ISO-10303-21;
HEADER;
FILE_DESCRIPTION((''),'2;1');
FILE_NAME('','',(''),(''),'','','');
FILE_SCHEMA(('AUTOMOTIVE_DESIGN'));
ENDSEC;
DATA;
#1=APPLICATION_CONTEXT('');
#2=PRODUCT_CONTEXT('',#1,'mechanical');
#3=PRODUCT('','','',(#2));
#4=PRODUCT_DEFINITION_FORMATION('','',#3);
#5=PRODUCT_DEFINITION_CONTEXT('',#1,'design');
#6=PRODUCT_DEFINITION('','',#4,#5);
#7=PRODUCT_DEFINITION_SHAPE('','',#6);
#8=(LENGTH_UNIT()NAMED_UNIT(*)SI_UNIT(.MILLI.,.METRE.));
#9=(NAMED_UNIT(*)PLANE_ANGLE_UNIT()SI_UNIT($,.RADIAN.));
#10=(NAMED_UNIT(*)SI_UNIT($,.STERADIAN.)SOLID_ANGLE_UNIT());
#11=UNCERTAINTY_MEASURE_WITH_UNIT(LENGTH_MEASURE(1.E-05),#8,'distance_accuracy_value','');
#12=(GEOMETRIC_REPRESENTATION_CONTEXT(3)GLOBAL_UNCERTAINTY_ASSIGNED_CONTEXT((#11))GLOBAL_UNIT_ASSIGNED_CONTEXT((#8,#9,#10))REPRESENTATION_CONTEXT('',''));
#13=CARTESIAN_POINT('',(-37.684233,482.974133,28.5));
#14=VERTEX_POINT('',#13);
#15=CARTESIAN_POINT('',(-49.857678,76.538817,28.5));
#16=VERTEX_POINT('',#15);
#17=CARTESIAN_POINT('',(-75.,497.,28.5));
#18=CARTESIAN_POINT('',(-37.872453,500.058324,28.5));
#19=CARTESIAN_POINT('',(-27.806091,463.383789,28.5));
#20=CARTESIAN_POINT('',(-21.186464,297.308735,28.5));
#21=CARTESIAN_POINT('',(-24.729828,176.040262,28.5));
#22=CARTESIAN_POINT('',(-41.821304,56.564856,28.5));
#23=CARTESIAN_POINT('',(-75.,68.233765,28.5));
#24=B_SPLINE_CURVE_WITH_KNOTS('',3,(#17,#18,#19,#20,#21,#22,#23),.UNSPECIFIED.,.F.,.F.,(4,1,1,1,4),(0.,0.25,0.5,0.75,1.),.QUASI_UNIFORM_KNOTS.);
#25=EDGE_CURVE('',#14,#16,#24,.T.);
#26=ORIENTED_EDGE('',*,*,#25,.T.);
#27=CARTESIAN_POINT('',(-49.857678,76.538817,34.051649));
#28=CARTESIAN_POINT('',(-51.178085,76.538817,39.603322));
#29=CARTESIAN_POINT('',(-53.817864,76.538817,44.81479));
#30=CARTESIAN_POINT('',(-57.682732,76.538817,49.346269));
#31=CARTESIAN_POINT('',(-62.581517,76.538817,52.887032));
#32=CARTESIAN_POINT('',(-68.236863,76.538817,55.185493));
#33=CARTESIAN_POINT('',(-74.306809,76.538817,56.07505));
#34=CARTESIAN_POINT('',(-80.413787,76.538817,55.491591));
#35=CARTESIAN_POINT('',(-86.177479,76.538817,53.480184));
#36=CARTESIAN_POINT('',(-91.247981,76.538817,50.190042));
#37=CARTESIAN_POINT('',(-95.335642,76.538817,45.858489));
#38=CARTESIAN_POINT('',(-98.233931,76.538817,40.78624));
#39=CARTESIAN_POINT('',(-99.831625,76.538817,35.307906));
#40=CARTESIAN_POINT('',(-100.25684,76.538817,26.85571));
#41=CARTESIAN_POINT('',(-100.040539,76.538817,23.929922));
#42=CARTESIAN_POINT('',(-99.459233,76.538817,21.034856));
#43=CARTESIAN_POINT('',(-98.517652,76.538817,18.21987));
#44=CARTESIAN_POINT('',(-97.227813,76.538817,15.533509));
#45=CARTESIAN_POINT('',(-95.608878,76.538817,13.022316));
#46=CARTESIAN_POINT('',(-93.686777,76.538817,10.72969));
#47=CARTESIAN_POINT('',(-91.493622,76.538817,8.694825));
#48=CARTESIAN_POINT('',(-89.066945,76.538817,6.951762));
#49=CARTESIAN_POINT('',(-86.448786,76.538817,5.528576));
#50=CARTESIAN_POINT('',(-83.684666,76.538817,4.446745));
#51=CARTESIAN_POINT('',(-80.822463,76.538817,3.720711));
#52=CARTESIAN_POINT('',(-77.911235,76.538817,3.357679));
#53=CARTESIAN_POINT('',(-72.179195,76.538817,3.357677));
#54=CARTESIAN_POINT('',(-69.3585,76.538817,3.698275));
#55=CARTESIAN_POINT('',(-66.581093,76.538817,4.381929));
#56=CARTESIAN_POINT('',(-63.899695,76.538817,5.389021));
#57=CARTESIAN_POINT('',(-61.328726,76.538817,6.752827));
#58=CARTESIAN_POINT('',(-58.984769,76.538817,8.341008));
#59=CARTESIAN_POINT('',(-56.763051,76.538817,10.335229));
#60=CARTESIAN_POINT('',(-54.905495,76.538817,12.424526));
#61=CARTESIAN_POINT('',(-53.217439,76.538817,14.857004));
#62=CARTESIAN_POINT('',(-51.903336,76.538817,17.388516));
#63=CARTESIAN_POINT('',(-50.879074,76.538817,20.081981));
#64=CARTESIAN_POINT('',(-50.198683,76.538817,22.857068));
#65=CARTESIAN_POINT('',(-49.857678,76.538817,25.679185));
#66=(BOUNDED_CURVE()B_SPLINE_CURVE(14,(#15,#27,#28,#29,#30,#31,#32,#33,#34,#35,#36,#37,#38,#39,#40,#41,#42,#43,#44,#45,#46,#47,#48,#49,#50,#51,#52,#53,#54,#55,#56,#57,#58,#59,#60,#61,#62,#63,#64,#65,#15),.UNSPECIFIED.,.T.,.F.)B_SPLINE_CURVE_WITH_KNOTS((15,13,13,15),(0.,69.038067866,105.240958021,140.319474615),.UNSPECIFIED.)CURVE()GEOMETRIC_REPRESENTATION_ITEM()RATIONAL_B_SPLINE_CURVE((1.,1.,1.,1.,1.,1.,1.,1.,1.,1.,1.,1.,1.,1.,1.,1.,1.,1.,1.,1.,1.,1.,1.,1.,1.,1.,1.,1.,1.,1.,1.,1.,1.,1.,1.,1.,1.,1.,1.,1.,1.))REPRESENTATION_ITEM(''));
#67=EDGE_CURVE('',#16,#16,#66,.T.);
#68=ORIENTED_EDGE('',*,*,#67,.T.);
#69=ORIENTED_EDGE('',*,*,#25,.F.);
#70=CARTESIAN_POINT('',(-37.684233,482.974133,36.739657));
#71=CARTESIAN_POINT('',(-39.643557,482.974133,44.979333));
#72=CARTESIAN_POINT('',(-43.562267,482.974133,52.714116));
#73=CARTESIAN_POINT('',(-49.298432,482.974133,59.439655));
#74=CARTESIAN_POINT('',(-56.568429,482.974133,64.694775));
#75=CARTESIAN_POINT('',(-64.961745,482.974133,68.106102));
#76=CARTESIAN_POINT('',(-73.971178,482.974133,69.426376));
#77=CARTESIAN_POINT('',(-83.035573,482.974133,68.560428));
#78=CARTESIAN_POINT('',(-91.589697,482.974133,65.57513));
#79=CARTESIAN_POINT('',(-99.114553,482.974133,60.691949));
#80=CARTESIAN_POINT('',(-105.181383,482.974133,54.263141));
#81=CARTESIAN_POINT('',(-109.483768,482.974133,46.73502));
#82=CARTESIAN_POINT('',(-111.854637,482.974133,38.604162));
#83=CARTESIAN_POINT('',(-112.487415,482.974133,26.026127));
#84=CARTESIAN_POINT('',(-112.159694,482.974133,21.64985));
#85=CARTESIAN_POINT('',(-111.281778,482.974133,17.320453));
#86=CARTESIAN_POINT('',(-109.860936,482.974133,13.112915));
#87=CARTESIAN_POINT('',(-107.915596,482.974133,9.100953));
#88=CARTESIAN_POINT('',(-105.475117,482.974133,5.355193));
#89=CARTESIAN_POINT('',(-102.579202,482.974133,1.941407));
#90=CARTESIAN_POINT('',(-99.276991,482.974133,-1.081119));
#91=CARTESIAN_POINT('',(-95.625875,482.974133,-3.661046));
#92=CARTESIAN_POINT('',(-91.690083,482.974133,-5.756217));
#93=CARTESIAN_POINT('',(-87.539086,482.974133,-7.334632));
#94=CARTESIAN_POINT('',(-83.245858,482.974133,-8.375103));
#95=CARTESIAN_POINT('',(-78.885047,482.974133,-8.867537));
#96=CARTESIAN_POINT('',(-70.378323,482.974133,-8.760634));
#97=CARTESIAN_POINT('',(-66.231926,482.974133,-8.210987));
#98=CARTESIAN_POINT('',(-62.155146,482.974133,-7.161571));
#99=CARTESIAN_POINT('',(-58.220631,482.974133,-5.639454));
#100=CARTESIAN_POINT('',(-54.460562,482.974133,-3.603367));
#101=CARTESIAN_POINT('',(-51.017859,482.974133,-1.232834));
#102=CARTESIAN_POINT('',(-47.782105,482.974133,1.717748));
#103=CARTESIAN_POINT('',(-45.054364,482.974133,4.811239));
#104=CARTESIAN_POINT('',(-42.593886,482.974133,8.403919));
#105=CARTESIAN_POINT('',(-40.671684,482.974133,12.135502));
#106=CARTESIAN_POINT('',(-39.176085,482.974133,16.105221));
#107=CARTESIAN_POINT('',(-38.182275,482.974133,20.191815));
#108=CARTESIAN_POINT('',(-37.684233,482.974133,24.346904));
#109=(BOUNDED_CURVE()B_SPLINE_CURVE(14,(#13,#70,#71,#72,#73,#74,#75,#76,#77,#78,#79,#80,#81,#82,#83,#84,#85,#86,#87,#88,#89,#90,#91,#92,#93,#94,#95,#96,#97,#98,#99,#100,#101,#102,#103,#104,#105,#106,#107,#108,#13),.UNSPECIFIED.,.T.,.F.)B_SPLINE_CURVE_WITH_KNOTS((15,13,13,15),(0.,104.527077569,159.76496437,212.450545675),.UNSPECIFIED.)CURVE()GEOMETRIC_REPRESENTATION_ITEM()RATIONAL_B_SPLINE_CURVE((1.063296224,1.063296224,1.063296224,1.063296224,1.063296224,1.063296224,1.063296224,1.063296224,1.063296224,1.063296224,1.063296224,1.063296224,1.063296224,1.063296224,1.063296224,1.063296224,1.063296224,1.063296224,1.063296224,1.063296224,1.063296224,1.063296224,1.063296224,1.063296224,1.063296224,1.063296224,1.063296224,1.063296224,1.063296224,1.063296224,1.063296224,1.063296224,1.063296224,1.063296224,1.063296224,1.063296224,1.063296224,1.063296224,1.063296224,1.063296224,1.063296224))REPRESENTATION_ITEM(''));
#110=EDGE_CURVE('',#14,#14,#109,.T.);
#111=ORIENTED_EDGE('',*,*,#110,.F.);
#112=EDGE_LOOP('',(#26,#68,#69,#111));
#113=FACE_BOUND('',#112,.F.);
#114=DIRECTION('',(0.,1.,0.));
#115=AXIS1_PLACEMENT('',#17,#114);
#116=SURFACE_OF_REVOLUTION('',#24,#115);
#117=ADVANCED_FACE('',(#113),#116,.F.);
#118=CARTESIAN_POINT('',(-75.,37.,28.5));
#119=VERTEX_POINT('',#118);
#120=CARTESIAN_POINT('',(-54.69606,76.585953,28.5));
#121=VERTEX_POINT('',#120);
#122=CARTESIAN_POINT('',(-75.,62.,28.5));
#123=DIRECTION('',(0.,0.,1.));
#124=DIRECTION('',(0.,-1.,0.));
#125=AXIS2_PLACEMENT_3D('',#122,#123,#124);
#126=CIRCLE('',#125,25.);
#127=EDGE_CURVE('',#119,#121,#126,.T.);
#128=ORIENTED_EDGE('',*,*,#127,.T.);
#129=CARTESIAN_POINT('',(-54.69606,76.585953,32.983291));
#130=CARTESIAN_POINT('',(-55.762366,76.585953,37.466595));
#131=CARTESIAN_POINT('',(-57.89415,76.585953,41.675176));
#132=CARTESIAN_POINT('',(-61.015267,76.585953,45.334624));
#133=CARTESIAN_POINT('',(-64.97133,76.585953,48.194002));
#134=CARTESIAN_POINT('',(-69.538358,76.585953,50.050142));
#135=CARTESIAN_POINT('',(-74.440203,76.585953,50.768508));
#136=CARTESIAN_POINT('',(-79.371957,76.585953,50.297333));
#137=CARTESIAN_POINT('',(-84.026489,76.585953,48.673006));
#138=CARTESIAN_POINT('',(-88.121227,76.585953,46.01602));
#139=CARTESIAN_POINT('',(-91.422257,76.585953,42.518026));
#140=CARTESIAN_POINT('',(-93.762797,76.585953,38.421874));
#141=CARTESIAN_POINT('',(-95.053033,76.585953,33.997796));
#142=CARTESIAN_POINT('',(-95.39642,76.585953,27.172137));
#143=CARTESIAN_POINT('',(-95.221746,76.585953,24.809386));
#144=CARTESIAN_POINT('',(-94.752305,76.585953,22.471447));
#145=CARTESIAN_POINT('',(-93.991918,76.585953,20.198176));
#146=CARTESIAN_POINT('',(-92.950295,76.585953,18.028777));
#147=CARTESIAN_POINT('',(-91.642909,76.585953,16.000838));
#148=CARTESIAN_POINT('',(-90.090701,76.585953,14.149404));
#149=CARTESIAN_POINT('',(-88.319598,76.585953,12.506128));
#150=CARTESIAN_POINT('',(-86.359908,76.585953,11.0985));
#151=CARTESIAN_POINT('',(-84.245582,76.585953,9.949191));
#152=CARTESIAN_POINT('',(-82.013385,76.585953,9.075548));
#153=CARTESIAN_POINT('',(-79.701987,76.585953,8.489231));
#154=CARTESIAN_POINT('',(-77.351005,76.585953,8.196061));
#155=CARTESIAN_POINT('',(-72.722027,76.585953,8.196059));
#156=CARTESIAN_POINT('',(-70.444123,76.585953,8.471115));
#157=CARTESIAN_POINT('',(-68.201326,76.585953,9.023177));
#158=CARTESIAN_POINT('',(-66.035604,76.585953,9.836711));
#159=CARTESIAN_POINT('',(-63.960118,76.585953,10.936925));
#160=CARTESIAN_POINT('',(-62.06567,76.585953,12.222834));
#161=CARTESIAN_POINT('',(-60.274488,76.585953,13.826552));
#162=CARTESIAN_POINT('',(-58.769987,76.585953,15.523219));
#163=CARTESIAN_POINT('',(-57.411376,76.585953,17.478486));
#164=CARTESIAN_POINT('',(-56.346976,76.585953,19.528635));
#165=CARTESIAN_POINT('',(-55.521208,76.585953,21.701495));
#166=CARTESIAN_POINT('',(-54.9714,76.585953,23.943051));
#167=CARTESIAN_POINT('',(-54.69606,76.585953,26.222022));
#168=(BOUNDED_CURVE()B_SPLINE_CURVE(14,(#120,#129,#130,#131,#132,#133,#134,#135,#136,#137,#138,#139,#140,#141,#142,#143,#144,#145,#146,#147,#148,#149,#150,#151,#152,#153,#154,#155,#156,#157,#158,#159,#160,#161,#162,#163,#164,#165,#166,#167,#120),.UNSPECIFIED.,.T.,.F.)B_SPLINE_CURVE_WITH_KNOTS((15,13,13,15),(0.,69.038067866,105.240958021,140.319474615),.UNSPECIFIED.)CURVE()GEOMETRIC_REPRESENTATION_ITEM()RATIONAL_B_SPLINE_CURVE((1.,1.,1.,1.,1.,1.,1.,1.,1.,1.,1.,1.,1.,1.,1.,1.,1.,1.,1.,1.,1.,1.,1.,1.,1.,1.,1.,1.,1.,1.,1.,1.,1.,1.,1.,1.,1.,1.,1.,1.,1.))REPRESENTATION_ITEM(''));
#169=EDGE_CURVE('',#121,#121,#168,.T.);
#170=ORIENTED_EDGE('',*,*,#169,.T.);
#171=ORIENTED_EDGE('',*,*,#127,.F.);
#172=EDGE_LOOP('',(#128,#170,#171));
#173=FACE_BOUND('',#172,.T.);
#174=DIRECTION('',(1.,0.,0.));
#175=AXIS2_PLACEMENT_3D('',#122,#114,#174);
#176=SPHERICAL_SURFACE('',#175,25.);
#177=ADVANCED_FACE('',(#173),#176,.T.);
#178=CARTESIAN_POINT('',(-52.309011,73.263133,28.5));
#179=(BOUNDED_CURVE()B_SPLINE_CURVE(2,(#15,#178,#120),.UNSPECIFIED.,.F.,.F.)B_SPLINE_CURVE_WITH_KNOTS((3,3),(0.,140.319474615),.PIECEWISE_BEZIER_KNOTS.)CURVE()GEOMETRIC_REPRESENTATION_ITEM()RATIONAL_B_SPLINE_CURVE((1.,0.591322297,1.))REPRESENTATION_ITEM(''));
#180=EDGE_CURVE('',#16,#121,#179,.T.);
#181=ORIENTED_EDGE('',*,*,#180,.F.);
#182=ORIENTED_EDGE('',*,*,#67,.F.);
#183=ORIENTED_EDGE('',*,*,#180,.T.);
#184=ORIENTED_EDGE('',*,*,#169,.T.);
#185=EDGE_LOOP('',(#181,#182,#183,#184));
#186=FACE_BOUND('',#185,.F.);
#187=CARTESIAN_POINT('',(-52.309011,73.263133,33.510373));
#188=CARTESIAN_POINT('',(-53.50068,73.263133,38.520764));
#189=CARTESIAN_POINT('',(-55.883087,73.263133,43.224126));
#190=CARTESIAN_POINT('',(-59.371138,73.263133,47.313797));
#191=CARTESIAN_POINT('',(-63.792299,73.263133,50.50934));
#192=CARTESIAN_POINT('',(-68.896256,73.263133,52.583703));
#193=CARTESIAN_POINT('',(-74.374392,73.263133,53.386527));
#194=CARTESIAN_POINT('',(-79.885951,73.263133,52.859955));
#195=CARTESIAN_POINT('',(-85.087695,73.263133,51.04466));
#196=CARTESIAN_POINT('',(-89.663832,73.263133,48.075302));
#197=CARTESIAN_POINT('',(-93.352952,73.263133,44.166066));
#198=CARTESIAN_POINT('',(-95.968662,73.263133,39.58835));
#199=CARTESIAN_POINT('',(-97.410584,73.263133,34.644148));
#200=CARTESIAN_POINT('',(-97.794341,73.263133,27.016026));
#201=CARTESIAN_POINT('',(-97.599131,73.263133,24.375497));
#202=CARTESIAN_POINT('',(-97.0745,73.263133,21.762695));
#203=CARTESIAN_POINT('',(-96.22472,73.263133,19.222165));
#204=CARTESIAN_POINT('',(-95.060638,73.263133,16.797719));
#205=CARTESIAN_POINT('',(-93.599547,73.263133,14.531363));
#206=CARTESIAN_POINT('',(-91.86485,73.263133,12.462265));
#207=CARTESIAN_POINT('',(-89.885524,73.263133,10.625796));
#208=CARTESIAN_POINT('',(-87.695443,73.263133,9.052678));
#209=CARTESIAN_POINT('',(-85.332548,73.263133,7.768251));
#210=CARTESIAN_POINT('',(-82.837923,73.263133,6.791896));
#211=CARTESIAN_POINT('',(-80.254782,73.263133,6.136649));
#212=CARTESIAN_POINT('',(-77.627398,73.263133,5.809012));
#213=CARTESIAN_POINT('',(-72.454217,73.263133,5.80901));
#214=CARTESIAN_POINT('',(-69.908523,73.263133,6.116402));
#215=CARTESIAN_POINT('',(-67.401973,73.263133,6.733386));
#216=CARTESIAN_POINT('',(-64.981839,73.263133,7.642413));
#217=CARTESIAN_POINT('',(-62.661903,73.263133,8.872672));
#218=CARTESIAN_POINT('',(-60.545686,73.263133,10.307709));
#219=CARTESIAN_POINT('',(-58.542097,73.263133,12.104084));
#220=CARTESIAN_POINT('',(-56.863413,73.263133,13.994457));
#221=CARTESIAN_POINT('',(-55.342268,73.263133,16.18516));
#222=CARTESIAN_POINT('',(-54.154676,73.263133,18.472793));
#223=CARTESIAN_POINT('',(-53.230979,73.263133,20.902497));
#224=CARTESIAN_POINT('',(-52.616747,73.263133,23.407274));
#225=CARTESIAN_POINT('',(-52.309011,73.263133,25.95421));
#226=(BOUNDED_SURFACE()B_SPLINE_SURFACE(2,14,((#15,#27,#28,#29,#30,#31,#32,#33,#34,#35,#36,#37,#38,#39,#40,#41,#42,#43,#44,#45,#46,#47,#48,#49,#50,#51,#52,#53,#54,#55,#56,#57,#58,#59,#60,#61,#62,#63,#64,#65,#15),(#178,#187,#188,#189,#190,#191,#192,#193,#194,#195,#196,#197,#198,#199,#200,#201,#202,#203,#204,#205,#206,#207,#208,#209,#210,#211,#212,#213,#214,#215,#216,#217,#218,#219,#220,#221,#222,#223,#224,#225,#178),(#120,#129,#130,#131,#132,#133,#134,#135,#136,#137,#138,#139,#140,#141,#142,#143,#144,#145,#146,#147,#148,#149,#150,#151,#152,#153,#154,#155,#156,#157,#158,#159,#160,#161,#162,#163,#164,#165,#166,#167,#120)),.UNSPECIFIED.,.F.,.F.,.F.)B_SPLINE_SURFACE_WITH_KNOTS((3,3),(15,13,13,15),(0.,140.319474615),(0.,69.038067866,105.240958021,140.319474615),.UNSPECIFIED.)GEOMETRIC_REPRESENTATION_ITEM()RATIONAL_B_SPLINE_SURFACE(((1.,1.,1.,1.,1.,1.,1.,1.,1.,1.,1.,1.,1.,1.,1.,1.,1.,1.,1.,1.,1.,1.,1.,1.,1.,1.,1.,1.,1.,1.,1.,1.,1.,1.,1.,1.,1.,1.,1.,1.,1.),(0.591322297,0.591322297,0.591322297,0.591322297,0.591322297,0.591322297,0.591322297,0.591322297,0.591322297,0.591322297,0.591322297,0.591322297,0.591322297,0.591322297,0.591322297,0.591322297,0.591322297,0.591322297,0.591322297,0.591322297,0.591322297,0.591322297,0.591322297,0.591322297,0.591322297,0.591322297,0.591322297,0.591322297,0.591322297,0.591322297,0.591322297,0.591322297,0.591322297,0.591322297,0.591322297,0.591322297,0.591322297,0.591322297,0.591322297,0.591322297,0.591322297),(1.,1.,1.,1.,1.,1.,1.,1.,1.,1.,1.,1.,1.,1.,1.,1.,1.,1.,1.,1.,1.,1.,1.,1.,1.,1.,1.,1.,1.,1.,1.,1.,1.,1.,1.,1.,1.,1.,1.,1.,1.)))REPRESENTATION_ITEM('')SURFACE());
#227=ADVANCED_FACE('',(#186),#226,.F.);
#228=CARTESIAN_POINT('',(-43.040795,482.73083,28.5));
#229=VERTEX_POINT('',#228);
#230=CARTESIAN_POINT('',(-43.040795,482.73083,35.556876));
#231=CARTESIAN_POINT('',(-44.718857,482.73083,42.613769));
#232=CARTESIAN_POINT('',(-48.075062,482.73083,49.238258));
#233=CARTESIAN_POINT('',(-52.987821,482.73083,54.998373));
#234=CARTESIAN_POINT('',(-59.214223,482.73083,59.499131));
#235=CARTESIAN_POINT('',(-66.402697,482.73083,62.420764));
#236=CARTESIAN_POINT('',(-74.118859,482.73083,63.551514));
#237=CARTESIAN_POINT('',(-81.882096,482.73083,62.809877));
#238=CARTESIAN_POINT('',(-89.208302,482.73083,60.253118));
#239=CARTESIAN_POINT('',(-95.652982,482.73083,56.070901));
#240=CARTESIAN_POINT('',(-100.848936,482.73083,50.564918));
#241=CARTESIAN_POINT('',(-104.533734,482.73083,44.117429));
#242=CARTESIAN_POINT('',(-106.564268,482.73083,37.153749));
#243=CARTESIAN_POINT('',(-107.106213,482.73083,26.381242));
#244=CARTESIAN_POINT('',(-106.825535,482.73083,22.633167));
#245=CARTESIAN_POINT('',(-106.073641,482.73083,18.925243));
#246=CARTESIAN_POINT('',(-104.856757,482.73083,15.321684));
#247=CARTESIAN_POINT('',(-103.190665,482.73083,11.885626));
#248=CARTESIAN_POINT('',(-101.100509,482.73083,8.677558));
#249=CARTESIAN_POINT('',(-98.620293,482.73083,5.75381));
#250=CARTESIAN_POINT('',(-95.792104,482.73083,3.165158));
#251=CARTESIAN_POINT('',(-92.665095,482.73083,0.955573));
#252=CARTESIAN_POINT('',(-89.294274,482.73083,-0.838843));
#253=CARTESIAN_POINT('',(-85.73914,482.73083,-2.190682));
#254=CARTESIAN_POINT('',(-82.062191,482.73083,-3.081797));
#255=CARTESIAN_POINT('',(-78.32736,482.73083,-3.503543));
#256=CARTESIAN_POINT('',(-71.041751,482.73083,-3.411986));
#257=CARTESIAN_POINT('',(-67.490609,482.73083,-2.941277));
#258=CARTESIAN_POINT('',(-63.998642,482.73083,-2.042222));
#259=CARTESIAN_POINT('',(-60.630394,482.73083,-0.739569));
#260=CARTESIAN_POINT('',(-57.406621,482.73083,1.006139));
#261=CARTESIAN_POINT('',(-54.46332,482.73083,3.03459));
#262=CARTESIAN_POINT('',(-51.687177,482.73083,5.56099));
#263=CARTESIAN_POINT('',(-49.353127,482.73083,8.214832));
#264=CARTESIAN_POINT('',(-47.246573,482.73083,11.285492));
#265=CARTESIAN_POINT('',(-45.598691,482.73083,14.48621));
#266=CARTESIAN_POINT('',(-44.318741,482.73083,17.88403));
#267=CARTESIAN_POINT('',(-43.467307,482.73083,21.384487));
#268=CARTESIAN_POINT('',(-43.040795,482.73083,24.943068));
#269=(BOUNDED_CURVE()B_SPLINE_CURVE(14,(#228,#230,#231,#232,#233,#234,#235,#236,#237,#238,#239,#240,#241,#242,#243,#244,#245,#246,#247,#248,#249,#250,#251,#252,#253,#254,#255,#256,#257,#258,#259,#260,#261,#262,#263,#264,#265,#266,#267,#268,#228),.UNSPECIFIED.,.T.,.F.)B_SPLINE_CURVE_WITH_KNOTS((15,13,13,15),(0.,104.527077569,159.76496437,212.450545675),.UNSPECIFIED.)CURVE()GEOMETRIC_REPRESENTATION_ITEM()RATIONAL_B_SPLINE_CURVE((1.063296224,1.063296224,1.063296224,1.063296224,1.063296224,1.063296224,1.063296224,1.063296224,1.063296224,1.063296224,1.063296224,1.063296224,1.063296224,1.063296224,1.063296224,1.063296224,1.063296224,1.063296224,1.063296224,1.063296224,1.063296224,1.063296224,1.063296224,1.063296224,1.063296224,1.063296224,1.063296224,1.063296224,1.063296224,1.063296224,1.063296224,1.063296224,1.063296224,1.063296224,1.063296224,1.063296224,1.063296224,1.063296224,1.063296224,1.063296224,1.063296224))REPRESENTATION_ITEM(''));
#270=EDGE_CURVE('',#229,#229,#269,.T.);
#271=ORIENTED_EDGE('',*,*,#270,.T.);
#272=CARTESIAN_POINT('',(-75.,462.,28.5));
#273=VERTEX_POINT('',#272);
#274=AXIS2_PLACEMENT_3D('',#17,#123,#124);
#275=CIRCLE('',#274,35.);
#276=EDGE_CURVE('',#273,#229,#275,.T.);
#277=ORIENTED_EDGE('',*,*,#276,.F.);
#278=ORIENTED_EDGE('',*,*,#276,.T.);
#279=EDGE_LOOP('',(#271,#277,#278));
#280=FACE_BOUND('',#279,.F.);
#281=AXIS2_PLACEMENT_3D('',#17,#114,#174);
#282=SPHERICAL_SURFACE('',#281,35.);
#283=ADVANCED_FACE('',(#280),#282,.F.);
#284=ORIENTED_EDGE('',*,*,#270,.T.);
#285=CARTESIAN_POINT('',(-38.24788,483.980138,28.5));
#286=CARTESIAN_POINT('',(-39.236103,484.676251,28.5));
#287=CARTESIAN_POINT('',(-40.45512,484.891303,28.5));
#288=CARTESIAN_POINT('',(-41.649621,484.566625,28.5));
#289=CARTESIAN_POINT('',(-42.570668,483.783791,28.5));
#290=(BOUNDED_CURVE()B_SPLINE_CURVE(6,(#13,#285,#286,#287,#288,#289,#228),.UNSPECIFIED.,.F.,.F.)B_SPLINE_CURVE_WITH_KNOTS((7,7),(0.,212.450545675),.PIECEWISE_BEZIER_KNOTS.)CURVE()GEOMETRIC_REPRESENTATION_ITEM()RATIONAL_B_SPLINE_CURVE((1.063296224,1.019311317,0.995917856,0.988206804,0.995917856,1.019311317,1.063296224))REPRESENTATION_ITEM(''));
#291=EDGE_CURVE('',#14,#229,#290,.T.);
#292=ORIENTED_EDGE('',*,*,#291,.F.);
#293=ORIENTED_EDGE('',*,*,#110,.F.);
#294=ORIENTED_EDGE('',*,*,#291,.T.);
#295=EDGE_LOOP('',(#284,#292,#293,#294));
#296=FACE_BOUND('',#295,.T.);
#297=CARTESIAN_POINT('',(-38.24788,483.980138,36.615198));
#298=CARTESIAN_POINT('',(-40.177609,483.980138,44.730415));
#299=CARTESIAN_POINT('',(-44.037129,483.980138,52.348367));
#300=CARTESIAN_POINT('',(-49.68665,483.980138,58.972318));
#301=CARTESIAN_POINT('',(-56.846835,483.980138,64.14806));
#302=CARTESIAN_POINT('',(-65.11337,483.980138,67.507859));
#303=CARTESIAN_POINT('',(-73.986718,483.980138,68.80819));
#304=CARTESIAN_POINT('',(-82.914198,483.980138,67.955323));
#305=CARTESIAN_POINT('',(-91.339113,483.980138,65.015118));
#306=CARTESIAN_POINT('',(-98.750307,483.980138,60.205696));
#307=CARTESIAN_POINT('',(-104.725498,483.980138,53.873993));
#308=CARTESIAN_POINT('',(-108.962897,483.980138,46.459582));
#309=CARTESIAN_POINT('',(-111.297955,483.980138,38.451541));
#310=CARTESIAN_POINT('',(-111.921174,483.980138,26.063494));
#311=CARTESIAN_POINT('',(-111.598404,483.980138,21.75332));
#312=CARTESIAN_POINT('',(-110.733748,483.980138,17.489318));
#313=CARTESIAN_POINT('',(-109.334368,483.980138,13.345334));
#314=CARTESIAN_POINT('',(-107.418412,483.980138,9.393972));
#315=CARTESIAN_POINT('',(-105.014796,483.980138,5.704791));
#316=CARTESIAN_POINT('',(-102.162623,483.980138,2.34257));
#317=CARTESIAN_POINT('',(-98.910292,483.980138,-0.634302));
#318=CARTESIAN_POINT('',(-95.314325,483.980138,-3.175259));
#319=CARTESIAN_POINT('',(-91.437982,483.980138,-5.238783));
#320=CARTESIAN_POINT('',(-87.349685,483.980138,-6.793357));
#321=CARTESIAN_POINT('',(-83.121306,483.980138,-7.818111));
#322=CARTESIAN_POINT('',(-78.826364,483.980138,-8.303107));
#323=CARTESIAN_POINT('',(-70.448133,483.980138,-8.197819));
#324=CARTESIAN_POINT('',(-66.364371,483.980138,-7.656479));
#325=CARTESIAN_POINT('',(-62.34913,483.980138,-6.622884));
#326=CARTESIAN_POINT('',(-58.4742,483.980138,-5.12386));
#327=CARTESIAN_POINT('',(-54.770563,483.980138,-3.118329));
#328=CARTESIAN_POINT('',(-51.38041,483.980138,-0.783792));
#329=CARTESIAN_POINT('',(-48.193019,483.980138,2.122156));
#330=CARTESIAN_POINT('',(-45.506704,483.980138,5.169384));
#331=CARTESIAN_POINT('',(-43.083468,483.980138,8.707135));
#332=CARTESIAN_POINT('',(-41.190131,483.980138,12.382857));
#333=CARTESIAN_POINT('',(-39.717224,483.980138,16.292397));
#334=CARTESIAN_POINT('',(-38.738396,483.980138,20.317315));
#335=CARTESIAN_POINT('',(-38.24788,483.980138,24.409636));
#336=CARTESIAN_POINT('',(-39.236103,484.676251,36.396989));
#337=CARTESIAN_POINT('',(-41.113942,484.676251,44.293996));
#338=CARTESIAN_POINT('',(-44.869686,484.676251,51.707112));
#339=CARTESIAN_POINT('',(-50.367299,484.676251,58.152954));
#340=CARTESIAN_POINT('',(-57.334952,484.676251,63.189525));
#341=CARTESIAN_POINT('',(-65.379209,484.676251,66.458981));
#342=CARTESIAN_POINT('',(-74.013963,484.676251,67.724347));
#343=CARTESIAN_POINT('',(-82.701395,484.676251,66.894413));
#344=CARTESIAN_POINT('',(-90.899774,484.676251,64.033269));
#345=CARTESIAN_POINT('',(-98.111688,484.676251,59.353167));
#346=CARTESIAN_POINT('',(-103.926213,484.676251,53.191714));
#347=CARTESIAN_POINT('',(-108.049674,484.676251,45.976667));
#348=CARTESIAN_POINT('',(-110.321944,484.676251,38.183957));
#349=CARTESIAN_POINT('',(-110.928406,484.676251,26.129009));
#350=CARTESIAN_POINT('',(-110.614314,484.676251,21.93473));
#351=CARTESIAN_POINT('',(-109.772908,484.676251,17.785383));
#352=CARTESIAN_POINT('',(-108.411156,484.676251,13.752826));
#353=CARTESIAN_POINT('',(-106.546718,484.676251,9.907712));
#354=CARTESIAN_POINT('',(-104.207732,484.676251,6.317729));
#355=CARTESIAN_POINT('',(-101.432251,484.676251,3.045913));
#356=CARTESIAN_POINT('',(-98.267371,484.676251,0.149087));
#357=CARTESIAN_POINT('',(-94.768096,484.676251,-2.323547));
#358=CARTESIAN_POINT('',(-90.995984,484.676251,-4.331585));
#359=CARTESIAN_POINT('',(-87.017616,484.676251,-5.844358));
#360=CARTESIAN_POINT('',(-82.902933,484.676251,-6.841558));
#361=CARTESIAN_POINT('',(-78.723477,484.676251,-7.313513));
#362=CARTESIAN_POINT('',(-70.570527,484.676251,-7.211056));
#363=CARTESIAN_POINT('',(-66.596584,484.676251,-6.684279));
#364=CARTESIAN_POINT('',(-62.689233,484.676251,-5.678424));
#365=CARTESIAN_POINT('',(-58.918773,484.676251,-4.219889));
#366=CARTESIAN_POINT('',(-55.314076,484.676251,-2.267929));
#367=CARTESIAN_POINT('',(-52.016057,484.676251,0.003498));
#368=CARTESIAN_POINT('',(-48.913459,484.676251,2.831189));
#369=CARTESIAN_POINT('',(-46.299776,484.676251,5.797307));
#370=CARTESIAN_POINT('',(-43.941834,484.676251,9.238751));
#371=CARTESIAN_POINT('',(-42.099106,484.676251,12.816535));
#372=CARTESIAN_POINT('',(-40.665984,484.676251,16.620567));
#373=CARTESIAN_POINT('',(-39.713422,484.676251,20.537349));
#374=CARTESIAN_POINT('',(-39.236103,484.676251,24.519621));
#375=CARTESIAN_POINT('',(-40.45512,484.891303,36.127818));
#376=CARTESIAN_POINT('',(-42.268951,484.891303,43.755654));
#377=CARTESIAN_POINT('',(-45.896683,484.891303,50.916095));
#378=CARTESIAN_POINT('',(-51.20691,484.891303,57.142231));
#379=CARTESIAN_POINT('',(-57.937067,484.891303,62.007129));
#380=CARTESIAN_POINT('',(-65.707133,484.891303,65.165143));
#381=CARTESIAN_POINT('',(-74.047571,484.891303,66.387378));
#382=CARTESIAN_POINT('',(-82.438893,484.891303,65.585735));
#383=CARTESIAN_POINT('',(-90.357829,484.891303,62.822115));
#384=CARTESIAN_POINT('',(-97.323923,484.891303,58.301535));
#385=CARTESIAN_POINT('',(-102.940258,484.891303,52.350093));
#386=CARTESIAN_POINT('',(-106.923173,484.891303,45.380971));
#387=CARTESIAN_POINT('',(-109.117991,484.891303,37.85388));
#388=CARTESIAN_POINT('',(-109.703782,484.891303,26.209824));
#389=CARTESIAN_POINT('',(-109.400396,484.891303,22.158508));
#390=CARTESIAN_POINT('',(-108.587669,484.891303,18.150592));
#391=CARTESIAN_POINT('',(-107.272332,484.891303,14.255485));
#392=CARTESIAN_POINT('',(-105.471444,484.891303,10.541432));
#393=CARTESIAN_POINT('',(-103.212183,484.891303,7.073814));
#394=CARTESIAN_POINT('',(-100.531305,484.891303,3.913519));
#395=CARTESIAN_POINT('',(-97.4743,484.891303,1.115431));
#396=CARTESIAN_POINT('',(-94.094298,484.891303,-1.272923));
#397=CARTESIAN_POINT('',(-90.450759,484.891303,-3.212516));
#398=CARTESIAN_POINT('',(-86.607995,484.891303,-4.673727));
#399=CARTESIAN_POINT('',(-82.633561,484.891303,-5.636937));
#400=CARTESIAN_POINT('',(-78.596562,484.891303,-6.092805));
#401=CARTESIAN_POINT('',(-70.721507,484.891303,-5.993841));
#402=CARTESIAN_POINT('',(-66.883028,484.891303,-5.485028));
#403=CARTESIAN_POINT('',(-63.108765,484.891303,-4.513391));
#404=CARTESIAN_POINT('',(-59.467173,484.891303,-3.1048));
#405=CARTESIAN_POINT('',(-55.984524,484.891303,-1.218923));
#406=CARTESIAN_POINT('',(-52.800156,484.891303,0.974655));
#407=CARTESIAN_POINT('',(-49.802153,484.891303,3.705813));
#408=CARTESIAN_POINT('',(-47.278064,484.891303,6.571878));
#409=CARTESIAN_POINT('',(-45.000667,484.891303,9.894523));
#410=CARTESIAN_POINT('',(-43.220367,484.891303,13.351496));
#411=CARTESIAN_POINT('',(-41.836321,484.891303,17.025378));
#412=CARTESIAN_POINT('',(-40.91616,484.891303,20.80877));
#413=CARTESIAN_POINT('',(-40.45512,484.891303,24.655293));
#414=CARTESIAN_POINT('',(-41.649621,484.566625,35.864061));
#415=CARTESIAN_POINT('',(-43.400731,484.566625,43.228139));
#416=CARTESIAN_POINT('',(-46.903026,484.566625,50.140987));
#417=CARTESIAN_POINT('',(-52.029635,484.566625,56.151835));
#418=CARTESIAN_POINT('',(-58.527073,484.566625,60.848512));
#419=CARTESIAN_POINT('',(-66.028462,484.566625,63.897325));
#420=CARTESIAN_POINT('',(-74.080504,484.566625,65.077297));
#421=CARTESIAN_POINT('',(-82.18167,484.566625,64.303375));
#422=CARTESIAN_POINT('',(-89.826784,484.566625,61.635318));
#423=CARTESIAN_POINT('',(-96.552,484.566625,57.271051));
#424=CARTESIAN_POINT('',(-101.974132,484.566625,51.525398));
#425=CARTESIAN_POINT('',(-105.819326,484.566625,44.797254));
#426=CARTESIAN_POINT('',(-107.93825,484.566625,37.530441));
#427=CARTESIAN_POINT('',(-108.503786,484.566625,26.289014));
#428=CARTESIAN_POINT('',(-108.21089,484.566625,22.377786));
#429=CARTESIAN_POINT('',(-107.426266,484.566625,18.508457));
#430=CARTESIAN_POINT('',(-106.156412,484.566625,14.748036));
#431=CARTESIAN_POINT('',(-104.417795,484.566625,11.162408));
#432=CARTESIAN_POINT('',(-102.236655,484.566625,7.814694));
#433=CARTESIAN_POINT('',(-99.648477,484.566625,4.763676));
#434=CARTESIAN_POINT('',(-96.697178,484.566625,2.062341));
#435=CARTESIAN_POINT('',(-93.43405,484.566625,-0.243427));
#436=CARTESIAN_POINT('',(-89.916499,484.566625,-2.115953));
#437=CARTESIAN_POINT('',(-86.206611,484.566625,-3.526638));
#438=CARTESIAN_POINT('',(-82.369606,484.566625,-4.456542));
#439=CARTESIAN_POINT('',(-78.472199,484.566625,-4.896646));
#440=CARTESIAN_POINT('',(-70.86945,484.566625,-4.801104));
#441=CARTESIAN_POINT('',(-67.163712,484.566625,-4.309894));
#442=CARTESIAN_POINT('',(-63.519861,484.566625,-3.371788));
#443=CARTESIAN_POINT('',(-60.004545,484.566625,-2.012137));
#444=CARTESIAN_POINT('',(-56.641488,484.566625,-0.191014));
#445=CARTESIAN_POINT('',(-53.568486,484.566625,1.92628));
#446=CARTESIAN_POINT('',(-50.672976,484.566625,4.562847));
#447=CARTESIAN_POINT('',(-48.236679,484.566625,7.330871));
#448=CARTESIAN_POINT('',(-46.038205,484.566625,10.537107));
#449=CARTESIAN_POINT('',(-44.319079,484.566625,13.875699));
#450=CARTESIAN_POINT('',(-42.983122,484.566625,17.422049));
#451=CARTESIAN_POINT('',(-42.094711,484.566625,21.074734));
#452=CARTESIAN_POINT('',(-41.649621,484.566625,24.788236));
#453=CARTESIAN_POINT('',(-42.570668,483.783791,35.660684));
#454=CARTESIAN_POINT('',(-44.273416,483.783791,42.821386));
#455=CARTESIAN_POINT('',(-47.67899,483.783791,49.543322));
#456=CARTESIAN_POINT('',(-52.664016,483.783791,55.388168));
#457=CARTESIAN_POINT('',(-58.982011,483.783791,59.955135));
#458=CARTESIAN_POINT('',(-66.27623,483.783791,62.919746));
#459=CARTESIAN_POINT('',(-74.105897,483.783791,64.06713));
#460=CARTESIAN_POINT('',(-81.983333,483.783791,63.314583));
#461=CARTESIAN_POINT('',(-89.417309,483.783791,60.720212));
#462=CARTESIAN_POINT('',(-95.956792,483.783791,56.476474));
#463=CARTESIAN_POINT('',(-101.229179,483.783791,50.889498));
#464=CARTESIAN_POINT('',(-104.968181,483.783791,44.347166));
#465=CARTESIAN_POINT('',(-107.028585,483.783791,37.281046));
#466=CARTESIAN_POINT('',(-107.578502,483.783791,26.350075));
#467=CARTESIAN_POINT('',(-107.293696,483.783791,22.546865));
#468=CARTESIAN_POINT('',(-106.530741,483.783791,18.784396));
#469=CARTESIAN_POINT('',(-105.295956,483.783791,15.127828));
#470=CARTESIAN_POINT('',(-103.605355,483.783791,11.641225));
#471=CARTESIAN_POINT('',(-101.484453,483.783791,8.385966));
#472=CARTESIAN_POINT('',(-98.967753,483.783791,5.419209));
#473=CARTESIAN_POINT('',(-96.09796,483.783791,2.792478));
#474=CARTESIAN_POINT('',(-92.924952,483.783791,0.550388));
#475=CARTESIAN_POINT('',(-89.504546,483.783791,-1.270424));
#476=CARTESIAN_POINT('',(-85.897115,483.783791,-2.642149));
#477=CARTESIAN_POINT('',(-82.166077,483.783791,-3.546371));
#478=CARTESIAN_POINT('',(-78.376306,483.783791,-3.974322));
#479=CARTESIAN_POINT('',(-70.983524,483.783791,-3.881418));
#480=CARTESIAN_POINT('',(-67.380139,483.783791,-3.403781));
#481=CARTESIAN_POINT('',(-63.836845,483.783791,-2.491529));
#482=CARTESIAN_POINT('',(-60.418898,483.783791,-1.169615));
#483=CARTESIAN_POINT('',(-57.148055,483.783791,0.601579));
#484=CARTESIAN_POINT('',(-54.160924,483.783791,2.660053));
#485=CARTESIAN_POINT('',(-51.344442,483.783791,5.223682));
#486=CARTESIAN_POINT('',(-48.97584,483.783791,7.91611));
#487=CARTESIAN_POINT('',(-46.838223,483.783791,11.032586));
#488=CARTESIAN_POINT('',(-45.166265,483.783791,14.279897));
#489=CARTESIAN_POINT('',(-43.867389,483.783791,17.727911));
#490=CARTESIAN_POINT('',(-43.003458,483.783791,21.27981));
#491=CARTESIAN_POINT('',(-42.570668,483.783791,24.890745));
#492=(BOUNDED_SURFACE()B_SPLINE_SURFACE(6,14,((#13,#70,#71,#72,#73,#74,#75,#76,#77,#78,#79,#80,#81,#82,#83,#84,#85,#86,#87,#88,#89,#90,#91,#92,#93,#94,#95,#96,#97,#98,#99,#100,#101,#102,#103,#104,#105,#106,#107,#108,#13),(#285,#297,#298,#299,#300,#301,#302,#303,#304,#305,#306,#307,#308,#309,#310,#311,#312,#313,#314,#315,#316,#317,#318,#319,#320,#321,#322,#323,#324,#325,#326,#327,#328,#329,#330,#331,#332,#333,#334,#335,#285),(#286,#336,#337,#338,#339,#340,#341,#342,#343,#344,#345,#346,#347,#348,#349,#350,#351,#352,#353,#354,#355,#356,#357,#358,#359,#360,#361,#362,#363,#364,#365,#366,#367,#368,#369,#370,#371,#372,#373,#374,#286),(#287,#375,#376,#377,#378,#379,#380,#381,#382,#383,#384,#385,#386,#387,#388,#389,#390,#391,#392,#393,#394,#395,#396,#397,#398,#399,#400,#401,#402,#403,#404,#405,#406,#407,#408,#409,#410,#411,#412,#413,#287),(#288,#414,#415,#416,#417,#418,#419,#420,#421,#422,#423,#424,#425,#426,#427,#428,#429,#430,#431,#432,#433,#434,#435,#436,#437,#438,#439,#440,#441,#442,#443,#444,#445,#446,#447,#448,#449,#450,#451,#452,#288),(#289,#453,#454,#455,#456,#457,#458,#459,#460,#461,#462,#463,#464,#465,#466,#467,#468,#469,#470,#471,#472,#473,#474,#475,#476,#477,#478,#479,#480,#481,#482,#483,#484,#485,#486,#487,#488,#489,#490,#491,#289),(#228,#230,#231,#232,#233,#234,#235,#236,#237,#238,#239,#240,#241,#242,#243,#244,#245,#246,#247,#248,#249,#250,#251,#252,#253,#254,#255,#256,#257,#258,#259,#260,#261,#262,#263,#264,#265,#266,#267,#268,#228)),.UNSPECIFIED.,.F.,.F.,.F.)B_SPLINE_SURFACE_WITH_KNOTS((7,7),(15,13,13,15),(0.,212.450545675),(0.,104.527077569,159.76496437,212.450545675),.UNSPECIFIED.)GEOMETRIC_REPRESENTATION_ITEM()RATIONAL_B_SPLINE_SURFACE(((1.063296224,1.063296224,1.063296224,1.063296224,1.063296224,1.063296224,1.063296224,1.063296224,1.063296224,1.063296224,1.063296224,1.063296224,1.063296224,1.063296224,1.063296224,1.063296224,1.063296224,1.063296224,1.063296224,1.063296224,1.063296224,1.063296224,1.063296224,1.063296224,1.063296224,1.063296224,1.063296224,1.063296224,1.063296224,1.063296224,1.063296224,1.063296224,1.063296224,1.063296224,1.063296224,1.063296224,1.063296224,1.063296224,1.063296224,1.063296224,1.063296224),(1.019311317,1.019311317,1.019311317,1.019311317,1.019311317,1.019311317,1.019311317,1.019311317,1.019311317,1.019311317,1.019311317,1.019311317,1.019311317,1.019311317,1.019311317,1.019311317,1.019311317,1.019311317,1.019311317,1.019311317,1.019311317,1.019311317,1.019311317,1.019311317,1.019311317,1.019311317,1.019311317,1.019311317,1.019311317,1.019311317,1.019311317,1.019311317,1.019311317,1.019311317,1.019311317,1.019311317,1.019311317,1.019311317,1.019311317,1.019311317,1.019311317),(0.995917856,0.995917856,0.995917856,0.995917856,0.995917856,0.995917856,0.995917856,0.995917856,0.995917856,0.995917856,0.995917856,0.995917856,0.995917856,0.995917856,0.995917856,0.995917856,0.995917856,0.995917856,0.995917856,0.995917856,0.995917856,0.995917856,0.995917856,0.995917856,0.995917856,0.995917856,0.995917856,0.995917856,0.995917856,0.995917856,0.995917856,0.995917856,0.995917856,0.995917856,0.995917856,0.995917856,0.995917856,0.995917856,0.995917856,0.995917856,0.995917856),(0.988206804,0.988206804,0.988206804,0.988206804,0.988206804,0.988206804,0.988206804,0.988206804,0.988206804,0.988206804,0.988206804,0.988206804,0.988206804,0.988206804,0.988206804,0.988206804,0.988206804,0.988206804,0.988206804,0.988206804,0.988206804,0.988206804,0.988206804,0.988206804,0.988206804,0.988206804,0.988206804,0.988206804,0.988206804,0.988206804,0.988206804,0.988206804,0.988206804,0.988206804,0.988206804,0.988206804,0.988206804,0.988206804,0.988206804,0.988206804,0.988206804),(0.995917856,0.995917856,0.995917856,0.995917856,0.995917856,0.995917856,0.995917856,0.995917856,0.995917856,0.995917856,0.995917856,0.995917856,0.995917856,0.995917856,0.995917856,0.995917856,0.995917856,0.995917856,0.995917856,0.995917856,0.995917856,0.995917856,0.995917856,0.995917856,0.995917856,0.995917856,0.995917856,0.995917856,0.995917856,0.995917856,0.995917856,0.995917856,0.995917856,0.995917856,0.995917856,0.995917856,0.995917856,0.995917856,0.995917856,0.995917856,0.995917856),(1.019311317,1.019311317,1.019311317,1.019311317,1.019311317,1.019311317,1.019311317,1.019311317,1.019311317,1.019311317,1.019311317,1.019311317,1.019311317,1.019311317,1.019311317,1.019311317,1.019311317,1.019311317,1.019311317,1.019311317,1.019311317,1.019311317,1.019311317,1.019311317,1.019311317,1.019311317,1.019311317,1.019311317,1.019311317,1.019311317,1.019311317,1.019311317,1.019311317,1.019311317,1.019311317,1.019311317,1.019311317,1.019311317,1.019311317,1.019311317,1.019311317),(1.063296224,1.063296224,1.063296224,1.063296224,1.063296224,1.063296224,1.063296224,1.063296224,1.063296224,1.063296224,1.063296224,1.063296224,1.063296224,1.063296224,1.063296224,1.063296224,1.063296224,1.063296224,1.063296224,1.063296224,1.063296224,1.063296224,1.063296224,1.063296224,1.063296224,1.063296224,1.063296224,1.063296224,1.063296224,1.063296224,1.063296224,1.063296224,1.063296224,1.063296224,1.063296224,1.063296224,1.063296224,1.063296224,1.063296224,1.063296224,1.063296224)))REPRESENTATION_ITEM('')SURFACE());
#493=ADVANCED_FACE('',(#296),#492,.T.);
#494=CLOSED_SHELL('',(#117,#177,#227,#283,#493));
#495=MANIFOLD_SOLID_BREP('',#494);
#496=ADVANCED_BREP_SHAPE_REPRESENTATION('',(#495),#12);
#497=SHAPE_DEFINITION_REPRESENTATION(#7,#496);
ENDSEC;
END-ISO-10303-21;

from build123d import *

# Parameters (mm, degrees)
FILLET104_R = 3
FILLET105_R = 3


with BuildPart() as part:
    # Sketch206 → Revolution106 (revolve)
    with BuildSketch(Plane.XY):
        with BuildLine():
            Line((0, 0), (0, -428.766235))
            add(Edge.make_bspline(
                [(0, 0), (37.127547, 3.058324), (47.193909, -33.616211), (53.813536, -199.691265), (50.270172, -320.959738), (33.178696, -440.435144), (0, -428.766235)],
                knots=[0, 0, 0, 0, 0.25, 0.5, 0.75, 1, 1, 1, 1], degree=3))
        make_face()
    revolve(axis=Axis((0, 0, 0), (0, 1, 0)))

    # Sketch207 → Groove101 (revolve, cut)
    with BuildSketch(Plane.XY):
        with BuildLine():
            Line((0, 35), (0, -35))
            ThreePointArc((0, -35), (35, 0), (0, 35))
        make_face()
    revolve(axis=Axis((0, 0, 0), (0, 1, 0)), mode=Mode.SUBTRACT)

    # Fillet104
    fillet104_edges = [part.edges().sort_by_distance(p)[0] for p in [
        (-33.812554, -9.039423, 0),
    ]]
    fillet(fillet104_edges, radius=FILLET104_R)

    # Sketch208 → Groove102 (revolve, cut)
    with BuildSketch(Plane.XY):
        with BuildLine():
            Line((0, -410), (0, -460))
            ThreePointArc((0, -460), (25, -435), (0, -410))
        make_face()
    revolve(axis=Axis((0, 0, 0), (0, 1, 0)), mode=Mode.SUBTRACT)

    # Fillet105
    fillet105_edges = [part.edges().sort_by_distance(p)[0] for p in [
        (-22.332538, -423.763553, 0),
    ]]
    fillet(fillet105_edges, radius=FILLET105_R)

    # Sketch208 → Revolution107 (revolve)
    with BuildSketch(Plane.XY):
        with BuildLine():
            Line((0, -410), (0, -460))
            ThreePointArc((0, -460), (25, -435), (0, -410))
        make_face()
    revolve(axis=Axis((0, 0, 0), (0, 1, 0)))


with BuildPart() as part_1:
    # Body062 placement: moved
    add(part.part.moved(Location((-75, 497, 28.5))))


solid = part_1.part
